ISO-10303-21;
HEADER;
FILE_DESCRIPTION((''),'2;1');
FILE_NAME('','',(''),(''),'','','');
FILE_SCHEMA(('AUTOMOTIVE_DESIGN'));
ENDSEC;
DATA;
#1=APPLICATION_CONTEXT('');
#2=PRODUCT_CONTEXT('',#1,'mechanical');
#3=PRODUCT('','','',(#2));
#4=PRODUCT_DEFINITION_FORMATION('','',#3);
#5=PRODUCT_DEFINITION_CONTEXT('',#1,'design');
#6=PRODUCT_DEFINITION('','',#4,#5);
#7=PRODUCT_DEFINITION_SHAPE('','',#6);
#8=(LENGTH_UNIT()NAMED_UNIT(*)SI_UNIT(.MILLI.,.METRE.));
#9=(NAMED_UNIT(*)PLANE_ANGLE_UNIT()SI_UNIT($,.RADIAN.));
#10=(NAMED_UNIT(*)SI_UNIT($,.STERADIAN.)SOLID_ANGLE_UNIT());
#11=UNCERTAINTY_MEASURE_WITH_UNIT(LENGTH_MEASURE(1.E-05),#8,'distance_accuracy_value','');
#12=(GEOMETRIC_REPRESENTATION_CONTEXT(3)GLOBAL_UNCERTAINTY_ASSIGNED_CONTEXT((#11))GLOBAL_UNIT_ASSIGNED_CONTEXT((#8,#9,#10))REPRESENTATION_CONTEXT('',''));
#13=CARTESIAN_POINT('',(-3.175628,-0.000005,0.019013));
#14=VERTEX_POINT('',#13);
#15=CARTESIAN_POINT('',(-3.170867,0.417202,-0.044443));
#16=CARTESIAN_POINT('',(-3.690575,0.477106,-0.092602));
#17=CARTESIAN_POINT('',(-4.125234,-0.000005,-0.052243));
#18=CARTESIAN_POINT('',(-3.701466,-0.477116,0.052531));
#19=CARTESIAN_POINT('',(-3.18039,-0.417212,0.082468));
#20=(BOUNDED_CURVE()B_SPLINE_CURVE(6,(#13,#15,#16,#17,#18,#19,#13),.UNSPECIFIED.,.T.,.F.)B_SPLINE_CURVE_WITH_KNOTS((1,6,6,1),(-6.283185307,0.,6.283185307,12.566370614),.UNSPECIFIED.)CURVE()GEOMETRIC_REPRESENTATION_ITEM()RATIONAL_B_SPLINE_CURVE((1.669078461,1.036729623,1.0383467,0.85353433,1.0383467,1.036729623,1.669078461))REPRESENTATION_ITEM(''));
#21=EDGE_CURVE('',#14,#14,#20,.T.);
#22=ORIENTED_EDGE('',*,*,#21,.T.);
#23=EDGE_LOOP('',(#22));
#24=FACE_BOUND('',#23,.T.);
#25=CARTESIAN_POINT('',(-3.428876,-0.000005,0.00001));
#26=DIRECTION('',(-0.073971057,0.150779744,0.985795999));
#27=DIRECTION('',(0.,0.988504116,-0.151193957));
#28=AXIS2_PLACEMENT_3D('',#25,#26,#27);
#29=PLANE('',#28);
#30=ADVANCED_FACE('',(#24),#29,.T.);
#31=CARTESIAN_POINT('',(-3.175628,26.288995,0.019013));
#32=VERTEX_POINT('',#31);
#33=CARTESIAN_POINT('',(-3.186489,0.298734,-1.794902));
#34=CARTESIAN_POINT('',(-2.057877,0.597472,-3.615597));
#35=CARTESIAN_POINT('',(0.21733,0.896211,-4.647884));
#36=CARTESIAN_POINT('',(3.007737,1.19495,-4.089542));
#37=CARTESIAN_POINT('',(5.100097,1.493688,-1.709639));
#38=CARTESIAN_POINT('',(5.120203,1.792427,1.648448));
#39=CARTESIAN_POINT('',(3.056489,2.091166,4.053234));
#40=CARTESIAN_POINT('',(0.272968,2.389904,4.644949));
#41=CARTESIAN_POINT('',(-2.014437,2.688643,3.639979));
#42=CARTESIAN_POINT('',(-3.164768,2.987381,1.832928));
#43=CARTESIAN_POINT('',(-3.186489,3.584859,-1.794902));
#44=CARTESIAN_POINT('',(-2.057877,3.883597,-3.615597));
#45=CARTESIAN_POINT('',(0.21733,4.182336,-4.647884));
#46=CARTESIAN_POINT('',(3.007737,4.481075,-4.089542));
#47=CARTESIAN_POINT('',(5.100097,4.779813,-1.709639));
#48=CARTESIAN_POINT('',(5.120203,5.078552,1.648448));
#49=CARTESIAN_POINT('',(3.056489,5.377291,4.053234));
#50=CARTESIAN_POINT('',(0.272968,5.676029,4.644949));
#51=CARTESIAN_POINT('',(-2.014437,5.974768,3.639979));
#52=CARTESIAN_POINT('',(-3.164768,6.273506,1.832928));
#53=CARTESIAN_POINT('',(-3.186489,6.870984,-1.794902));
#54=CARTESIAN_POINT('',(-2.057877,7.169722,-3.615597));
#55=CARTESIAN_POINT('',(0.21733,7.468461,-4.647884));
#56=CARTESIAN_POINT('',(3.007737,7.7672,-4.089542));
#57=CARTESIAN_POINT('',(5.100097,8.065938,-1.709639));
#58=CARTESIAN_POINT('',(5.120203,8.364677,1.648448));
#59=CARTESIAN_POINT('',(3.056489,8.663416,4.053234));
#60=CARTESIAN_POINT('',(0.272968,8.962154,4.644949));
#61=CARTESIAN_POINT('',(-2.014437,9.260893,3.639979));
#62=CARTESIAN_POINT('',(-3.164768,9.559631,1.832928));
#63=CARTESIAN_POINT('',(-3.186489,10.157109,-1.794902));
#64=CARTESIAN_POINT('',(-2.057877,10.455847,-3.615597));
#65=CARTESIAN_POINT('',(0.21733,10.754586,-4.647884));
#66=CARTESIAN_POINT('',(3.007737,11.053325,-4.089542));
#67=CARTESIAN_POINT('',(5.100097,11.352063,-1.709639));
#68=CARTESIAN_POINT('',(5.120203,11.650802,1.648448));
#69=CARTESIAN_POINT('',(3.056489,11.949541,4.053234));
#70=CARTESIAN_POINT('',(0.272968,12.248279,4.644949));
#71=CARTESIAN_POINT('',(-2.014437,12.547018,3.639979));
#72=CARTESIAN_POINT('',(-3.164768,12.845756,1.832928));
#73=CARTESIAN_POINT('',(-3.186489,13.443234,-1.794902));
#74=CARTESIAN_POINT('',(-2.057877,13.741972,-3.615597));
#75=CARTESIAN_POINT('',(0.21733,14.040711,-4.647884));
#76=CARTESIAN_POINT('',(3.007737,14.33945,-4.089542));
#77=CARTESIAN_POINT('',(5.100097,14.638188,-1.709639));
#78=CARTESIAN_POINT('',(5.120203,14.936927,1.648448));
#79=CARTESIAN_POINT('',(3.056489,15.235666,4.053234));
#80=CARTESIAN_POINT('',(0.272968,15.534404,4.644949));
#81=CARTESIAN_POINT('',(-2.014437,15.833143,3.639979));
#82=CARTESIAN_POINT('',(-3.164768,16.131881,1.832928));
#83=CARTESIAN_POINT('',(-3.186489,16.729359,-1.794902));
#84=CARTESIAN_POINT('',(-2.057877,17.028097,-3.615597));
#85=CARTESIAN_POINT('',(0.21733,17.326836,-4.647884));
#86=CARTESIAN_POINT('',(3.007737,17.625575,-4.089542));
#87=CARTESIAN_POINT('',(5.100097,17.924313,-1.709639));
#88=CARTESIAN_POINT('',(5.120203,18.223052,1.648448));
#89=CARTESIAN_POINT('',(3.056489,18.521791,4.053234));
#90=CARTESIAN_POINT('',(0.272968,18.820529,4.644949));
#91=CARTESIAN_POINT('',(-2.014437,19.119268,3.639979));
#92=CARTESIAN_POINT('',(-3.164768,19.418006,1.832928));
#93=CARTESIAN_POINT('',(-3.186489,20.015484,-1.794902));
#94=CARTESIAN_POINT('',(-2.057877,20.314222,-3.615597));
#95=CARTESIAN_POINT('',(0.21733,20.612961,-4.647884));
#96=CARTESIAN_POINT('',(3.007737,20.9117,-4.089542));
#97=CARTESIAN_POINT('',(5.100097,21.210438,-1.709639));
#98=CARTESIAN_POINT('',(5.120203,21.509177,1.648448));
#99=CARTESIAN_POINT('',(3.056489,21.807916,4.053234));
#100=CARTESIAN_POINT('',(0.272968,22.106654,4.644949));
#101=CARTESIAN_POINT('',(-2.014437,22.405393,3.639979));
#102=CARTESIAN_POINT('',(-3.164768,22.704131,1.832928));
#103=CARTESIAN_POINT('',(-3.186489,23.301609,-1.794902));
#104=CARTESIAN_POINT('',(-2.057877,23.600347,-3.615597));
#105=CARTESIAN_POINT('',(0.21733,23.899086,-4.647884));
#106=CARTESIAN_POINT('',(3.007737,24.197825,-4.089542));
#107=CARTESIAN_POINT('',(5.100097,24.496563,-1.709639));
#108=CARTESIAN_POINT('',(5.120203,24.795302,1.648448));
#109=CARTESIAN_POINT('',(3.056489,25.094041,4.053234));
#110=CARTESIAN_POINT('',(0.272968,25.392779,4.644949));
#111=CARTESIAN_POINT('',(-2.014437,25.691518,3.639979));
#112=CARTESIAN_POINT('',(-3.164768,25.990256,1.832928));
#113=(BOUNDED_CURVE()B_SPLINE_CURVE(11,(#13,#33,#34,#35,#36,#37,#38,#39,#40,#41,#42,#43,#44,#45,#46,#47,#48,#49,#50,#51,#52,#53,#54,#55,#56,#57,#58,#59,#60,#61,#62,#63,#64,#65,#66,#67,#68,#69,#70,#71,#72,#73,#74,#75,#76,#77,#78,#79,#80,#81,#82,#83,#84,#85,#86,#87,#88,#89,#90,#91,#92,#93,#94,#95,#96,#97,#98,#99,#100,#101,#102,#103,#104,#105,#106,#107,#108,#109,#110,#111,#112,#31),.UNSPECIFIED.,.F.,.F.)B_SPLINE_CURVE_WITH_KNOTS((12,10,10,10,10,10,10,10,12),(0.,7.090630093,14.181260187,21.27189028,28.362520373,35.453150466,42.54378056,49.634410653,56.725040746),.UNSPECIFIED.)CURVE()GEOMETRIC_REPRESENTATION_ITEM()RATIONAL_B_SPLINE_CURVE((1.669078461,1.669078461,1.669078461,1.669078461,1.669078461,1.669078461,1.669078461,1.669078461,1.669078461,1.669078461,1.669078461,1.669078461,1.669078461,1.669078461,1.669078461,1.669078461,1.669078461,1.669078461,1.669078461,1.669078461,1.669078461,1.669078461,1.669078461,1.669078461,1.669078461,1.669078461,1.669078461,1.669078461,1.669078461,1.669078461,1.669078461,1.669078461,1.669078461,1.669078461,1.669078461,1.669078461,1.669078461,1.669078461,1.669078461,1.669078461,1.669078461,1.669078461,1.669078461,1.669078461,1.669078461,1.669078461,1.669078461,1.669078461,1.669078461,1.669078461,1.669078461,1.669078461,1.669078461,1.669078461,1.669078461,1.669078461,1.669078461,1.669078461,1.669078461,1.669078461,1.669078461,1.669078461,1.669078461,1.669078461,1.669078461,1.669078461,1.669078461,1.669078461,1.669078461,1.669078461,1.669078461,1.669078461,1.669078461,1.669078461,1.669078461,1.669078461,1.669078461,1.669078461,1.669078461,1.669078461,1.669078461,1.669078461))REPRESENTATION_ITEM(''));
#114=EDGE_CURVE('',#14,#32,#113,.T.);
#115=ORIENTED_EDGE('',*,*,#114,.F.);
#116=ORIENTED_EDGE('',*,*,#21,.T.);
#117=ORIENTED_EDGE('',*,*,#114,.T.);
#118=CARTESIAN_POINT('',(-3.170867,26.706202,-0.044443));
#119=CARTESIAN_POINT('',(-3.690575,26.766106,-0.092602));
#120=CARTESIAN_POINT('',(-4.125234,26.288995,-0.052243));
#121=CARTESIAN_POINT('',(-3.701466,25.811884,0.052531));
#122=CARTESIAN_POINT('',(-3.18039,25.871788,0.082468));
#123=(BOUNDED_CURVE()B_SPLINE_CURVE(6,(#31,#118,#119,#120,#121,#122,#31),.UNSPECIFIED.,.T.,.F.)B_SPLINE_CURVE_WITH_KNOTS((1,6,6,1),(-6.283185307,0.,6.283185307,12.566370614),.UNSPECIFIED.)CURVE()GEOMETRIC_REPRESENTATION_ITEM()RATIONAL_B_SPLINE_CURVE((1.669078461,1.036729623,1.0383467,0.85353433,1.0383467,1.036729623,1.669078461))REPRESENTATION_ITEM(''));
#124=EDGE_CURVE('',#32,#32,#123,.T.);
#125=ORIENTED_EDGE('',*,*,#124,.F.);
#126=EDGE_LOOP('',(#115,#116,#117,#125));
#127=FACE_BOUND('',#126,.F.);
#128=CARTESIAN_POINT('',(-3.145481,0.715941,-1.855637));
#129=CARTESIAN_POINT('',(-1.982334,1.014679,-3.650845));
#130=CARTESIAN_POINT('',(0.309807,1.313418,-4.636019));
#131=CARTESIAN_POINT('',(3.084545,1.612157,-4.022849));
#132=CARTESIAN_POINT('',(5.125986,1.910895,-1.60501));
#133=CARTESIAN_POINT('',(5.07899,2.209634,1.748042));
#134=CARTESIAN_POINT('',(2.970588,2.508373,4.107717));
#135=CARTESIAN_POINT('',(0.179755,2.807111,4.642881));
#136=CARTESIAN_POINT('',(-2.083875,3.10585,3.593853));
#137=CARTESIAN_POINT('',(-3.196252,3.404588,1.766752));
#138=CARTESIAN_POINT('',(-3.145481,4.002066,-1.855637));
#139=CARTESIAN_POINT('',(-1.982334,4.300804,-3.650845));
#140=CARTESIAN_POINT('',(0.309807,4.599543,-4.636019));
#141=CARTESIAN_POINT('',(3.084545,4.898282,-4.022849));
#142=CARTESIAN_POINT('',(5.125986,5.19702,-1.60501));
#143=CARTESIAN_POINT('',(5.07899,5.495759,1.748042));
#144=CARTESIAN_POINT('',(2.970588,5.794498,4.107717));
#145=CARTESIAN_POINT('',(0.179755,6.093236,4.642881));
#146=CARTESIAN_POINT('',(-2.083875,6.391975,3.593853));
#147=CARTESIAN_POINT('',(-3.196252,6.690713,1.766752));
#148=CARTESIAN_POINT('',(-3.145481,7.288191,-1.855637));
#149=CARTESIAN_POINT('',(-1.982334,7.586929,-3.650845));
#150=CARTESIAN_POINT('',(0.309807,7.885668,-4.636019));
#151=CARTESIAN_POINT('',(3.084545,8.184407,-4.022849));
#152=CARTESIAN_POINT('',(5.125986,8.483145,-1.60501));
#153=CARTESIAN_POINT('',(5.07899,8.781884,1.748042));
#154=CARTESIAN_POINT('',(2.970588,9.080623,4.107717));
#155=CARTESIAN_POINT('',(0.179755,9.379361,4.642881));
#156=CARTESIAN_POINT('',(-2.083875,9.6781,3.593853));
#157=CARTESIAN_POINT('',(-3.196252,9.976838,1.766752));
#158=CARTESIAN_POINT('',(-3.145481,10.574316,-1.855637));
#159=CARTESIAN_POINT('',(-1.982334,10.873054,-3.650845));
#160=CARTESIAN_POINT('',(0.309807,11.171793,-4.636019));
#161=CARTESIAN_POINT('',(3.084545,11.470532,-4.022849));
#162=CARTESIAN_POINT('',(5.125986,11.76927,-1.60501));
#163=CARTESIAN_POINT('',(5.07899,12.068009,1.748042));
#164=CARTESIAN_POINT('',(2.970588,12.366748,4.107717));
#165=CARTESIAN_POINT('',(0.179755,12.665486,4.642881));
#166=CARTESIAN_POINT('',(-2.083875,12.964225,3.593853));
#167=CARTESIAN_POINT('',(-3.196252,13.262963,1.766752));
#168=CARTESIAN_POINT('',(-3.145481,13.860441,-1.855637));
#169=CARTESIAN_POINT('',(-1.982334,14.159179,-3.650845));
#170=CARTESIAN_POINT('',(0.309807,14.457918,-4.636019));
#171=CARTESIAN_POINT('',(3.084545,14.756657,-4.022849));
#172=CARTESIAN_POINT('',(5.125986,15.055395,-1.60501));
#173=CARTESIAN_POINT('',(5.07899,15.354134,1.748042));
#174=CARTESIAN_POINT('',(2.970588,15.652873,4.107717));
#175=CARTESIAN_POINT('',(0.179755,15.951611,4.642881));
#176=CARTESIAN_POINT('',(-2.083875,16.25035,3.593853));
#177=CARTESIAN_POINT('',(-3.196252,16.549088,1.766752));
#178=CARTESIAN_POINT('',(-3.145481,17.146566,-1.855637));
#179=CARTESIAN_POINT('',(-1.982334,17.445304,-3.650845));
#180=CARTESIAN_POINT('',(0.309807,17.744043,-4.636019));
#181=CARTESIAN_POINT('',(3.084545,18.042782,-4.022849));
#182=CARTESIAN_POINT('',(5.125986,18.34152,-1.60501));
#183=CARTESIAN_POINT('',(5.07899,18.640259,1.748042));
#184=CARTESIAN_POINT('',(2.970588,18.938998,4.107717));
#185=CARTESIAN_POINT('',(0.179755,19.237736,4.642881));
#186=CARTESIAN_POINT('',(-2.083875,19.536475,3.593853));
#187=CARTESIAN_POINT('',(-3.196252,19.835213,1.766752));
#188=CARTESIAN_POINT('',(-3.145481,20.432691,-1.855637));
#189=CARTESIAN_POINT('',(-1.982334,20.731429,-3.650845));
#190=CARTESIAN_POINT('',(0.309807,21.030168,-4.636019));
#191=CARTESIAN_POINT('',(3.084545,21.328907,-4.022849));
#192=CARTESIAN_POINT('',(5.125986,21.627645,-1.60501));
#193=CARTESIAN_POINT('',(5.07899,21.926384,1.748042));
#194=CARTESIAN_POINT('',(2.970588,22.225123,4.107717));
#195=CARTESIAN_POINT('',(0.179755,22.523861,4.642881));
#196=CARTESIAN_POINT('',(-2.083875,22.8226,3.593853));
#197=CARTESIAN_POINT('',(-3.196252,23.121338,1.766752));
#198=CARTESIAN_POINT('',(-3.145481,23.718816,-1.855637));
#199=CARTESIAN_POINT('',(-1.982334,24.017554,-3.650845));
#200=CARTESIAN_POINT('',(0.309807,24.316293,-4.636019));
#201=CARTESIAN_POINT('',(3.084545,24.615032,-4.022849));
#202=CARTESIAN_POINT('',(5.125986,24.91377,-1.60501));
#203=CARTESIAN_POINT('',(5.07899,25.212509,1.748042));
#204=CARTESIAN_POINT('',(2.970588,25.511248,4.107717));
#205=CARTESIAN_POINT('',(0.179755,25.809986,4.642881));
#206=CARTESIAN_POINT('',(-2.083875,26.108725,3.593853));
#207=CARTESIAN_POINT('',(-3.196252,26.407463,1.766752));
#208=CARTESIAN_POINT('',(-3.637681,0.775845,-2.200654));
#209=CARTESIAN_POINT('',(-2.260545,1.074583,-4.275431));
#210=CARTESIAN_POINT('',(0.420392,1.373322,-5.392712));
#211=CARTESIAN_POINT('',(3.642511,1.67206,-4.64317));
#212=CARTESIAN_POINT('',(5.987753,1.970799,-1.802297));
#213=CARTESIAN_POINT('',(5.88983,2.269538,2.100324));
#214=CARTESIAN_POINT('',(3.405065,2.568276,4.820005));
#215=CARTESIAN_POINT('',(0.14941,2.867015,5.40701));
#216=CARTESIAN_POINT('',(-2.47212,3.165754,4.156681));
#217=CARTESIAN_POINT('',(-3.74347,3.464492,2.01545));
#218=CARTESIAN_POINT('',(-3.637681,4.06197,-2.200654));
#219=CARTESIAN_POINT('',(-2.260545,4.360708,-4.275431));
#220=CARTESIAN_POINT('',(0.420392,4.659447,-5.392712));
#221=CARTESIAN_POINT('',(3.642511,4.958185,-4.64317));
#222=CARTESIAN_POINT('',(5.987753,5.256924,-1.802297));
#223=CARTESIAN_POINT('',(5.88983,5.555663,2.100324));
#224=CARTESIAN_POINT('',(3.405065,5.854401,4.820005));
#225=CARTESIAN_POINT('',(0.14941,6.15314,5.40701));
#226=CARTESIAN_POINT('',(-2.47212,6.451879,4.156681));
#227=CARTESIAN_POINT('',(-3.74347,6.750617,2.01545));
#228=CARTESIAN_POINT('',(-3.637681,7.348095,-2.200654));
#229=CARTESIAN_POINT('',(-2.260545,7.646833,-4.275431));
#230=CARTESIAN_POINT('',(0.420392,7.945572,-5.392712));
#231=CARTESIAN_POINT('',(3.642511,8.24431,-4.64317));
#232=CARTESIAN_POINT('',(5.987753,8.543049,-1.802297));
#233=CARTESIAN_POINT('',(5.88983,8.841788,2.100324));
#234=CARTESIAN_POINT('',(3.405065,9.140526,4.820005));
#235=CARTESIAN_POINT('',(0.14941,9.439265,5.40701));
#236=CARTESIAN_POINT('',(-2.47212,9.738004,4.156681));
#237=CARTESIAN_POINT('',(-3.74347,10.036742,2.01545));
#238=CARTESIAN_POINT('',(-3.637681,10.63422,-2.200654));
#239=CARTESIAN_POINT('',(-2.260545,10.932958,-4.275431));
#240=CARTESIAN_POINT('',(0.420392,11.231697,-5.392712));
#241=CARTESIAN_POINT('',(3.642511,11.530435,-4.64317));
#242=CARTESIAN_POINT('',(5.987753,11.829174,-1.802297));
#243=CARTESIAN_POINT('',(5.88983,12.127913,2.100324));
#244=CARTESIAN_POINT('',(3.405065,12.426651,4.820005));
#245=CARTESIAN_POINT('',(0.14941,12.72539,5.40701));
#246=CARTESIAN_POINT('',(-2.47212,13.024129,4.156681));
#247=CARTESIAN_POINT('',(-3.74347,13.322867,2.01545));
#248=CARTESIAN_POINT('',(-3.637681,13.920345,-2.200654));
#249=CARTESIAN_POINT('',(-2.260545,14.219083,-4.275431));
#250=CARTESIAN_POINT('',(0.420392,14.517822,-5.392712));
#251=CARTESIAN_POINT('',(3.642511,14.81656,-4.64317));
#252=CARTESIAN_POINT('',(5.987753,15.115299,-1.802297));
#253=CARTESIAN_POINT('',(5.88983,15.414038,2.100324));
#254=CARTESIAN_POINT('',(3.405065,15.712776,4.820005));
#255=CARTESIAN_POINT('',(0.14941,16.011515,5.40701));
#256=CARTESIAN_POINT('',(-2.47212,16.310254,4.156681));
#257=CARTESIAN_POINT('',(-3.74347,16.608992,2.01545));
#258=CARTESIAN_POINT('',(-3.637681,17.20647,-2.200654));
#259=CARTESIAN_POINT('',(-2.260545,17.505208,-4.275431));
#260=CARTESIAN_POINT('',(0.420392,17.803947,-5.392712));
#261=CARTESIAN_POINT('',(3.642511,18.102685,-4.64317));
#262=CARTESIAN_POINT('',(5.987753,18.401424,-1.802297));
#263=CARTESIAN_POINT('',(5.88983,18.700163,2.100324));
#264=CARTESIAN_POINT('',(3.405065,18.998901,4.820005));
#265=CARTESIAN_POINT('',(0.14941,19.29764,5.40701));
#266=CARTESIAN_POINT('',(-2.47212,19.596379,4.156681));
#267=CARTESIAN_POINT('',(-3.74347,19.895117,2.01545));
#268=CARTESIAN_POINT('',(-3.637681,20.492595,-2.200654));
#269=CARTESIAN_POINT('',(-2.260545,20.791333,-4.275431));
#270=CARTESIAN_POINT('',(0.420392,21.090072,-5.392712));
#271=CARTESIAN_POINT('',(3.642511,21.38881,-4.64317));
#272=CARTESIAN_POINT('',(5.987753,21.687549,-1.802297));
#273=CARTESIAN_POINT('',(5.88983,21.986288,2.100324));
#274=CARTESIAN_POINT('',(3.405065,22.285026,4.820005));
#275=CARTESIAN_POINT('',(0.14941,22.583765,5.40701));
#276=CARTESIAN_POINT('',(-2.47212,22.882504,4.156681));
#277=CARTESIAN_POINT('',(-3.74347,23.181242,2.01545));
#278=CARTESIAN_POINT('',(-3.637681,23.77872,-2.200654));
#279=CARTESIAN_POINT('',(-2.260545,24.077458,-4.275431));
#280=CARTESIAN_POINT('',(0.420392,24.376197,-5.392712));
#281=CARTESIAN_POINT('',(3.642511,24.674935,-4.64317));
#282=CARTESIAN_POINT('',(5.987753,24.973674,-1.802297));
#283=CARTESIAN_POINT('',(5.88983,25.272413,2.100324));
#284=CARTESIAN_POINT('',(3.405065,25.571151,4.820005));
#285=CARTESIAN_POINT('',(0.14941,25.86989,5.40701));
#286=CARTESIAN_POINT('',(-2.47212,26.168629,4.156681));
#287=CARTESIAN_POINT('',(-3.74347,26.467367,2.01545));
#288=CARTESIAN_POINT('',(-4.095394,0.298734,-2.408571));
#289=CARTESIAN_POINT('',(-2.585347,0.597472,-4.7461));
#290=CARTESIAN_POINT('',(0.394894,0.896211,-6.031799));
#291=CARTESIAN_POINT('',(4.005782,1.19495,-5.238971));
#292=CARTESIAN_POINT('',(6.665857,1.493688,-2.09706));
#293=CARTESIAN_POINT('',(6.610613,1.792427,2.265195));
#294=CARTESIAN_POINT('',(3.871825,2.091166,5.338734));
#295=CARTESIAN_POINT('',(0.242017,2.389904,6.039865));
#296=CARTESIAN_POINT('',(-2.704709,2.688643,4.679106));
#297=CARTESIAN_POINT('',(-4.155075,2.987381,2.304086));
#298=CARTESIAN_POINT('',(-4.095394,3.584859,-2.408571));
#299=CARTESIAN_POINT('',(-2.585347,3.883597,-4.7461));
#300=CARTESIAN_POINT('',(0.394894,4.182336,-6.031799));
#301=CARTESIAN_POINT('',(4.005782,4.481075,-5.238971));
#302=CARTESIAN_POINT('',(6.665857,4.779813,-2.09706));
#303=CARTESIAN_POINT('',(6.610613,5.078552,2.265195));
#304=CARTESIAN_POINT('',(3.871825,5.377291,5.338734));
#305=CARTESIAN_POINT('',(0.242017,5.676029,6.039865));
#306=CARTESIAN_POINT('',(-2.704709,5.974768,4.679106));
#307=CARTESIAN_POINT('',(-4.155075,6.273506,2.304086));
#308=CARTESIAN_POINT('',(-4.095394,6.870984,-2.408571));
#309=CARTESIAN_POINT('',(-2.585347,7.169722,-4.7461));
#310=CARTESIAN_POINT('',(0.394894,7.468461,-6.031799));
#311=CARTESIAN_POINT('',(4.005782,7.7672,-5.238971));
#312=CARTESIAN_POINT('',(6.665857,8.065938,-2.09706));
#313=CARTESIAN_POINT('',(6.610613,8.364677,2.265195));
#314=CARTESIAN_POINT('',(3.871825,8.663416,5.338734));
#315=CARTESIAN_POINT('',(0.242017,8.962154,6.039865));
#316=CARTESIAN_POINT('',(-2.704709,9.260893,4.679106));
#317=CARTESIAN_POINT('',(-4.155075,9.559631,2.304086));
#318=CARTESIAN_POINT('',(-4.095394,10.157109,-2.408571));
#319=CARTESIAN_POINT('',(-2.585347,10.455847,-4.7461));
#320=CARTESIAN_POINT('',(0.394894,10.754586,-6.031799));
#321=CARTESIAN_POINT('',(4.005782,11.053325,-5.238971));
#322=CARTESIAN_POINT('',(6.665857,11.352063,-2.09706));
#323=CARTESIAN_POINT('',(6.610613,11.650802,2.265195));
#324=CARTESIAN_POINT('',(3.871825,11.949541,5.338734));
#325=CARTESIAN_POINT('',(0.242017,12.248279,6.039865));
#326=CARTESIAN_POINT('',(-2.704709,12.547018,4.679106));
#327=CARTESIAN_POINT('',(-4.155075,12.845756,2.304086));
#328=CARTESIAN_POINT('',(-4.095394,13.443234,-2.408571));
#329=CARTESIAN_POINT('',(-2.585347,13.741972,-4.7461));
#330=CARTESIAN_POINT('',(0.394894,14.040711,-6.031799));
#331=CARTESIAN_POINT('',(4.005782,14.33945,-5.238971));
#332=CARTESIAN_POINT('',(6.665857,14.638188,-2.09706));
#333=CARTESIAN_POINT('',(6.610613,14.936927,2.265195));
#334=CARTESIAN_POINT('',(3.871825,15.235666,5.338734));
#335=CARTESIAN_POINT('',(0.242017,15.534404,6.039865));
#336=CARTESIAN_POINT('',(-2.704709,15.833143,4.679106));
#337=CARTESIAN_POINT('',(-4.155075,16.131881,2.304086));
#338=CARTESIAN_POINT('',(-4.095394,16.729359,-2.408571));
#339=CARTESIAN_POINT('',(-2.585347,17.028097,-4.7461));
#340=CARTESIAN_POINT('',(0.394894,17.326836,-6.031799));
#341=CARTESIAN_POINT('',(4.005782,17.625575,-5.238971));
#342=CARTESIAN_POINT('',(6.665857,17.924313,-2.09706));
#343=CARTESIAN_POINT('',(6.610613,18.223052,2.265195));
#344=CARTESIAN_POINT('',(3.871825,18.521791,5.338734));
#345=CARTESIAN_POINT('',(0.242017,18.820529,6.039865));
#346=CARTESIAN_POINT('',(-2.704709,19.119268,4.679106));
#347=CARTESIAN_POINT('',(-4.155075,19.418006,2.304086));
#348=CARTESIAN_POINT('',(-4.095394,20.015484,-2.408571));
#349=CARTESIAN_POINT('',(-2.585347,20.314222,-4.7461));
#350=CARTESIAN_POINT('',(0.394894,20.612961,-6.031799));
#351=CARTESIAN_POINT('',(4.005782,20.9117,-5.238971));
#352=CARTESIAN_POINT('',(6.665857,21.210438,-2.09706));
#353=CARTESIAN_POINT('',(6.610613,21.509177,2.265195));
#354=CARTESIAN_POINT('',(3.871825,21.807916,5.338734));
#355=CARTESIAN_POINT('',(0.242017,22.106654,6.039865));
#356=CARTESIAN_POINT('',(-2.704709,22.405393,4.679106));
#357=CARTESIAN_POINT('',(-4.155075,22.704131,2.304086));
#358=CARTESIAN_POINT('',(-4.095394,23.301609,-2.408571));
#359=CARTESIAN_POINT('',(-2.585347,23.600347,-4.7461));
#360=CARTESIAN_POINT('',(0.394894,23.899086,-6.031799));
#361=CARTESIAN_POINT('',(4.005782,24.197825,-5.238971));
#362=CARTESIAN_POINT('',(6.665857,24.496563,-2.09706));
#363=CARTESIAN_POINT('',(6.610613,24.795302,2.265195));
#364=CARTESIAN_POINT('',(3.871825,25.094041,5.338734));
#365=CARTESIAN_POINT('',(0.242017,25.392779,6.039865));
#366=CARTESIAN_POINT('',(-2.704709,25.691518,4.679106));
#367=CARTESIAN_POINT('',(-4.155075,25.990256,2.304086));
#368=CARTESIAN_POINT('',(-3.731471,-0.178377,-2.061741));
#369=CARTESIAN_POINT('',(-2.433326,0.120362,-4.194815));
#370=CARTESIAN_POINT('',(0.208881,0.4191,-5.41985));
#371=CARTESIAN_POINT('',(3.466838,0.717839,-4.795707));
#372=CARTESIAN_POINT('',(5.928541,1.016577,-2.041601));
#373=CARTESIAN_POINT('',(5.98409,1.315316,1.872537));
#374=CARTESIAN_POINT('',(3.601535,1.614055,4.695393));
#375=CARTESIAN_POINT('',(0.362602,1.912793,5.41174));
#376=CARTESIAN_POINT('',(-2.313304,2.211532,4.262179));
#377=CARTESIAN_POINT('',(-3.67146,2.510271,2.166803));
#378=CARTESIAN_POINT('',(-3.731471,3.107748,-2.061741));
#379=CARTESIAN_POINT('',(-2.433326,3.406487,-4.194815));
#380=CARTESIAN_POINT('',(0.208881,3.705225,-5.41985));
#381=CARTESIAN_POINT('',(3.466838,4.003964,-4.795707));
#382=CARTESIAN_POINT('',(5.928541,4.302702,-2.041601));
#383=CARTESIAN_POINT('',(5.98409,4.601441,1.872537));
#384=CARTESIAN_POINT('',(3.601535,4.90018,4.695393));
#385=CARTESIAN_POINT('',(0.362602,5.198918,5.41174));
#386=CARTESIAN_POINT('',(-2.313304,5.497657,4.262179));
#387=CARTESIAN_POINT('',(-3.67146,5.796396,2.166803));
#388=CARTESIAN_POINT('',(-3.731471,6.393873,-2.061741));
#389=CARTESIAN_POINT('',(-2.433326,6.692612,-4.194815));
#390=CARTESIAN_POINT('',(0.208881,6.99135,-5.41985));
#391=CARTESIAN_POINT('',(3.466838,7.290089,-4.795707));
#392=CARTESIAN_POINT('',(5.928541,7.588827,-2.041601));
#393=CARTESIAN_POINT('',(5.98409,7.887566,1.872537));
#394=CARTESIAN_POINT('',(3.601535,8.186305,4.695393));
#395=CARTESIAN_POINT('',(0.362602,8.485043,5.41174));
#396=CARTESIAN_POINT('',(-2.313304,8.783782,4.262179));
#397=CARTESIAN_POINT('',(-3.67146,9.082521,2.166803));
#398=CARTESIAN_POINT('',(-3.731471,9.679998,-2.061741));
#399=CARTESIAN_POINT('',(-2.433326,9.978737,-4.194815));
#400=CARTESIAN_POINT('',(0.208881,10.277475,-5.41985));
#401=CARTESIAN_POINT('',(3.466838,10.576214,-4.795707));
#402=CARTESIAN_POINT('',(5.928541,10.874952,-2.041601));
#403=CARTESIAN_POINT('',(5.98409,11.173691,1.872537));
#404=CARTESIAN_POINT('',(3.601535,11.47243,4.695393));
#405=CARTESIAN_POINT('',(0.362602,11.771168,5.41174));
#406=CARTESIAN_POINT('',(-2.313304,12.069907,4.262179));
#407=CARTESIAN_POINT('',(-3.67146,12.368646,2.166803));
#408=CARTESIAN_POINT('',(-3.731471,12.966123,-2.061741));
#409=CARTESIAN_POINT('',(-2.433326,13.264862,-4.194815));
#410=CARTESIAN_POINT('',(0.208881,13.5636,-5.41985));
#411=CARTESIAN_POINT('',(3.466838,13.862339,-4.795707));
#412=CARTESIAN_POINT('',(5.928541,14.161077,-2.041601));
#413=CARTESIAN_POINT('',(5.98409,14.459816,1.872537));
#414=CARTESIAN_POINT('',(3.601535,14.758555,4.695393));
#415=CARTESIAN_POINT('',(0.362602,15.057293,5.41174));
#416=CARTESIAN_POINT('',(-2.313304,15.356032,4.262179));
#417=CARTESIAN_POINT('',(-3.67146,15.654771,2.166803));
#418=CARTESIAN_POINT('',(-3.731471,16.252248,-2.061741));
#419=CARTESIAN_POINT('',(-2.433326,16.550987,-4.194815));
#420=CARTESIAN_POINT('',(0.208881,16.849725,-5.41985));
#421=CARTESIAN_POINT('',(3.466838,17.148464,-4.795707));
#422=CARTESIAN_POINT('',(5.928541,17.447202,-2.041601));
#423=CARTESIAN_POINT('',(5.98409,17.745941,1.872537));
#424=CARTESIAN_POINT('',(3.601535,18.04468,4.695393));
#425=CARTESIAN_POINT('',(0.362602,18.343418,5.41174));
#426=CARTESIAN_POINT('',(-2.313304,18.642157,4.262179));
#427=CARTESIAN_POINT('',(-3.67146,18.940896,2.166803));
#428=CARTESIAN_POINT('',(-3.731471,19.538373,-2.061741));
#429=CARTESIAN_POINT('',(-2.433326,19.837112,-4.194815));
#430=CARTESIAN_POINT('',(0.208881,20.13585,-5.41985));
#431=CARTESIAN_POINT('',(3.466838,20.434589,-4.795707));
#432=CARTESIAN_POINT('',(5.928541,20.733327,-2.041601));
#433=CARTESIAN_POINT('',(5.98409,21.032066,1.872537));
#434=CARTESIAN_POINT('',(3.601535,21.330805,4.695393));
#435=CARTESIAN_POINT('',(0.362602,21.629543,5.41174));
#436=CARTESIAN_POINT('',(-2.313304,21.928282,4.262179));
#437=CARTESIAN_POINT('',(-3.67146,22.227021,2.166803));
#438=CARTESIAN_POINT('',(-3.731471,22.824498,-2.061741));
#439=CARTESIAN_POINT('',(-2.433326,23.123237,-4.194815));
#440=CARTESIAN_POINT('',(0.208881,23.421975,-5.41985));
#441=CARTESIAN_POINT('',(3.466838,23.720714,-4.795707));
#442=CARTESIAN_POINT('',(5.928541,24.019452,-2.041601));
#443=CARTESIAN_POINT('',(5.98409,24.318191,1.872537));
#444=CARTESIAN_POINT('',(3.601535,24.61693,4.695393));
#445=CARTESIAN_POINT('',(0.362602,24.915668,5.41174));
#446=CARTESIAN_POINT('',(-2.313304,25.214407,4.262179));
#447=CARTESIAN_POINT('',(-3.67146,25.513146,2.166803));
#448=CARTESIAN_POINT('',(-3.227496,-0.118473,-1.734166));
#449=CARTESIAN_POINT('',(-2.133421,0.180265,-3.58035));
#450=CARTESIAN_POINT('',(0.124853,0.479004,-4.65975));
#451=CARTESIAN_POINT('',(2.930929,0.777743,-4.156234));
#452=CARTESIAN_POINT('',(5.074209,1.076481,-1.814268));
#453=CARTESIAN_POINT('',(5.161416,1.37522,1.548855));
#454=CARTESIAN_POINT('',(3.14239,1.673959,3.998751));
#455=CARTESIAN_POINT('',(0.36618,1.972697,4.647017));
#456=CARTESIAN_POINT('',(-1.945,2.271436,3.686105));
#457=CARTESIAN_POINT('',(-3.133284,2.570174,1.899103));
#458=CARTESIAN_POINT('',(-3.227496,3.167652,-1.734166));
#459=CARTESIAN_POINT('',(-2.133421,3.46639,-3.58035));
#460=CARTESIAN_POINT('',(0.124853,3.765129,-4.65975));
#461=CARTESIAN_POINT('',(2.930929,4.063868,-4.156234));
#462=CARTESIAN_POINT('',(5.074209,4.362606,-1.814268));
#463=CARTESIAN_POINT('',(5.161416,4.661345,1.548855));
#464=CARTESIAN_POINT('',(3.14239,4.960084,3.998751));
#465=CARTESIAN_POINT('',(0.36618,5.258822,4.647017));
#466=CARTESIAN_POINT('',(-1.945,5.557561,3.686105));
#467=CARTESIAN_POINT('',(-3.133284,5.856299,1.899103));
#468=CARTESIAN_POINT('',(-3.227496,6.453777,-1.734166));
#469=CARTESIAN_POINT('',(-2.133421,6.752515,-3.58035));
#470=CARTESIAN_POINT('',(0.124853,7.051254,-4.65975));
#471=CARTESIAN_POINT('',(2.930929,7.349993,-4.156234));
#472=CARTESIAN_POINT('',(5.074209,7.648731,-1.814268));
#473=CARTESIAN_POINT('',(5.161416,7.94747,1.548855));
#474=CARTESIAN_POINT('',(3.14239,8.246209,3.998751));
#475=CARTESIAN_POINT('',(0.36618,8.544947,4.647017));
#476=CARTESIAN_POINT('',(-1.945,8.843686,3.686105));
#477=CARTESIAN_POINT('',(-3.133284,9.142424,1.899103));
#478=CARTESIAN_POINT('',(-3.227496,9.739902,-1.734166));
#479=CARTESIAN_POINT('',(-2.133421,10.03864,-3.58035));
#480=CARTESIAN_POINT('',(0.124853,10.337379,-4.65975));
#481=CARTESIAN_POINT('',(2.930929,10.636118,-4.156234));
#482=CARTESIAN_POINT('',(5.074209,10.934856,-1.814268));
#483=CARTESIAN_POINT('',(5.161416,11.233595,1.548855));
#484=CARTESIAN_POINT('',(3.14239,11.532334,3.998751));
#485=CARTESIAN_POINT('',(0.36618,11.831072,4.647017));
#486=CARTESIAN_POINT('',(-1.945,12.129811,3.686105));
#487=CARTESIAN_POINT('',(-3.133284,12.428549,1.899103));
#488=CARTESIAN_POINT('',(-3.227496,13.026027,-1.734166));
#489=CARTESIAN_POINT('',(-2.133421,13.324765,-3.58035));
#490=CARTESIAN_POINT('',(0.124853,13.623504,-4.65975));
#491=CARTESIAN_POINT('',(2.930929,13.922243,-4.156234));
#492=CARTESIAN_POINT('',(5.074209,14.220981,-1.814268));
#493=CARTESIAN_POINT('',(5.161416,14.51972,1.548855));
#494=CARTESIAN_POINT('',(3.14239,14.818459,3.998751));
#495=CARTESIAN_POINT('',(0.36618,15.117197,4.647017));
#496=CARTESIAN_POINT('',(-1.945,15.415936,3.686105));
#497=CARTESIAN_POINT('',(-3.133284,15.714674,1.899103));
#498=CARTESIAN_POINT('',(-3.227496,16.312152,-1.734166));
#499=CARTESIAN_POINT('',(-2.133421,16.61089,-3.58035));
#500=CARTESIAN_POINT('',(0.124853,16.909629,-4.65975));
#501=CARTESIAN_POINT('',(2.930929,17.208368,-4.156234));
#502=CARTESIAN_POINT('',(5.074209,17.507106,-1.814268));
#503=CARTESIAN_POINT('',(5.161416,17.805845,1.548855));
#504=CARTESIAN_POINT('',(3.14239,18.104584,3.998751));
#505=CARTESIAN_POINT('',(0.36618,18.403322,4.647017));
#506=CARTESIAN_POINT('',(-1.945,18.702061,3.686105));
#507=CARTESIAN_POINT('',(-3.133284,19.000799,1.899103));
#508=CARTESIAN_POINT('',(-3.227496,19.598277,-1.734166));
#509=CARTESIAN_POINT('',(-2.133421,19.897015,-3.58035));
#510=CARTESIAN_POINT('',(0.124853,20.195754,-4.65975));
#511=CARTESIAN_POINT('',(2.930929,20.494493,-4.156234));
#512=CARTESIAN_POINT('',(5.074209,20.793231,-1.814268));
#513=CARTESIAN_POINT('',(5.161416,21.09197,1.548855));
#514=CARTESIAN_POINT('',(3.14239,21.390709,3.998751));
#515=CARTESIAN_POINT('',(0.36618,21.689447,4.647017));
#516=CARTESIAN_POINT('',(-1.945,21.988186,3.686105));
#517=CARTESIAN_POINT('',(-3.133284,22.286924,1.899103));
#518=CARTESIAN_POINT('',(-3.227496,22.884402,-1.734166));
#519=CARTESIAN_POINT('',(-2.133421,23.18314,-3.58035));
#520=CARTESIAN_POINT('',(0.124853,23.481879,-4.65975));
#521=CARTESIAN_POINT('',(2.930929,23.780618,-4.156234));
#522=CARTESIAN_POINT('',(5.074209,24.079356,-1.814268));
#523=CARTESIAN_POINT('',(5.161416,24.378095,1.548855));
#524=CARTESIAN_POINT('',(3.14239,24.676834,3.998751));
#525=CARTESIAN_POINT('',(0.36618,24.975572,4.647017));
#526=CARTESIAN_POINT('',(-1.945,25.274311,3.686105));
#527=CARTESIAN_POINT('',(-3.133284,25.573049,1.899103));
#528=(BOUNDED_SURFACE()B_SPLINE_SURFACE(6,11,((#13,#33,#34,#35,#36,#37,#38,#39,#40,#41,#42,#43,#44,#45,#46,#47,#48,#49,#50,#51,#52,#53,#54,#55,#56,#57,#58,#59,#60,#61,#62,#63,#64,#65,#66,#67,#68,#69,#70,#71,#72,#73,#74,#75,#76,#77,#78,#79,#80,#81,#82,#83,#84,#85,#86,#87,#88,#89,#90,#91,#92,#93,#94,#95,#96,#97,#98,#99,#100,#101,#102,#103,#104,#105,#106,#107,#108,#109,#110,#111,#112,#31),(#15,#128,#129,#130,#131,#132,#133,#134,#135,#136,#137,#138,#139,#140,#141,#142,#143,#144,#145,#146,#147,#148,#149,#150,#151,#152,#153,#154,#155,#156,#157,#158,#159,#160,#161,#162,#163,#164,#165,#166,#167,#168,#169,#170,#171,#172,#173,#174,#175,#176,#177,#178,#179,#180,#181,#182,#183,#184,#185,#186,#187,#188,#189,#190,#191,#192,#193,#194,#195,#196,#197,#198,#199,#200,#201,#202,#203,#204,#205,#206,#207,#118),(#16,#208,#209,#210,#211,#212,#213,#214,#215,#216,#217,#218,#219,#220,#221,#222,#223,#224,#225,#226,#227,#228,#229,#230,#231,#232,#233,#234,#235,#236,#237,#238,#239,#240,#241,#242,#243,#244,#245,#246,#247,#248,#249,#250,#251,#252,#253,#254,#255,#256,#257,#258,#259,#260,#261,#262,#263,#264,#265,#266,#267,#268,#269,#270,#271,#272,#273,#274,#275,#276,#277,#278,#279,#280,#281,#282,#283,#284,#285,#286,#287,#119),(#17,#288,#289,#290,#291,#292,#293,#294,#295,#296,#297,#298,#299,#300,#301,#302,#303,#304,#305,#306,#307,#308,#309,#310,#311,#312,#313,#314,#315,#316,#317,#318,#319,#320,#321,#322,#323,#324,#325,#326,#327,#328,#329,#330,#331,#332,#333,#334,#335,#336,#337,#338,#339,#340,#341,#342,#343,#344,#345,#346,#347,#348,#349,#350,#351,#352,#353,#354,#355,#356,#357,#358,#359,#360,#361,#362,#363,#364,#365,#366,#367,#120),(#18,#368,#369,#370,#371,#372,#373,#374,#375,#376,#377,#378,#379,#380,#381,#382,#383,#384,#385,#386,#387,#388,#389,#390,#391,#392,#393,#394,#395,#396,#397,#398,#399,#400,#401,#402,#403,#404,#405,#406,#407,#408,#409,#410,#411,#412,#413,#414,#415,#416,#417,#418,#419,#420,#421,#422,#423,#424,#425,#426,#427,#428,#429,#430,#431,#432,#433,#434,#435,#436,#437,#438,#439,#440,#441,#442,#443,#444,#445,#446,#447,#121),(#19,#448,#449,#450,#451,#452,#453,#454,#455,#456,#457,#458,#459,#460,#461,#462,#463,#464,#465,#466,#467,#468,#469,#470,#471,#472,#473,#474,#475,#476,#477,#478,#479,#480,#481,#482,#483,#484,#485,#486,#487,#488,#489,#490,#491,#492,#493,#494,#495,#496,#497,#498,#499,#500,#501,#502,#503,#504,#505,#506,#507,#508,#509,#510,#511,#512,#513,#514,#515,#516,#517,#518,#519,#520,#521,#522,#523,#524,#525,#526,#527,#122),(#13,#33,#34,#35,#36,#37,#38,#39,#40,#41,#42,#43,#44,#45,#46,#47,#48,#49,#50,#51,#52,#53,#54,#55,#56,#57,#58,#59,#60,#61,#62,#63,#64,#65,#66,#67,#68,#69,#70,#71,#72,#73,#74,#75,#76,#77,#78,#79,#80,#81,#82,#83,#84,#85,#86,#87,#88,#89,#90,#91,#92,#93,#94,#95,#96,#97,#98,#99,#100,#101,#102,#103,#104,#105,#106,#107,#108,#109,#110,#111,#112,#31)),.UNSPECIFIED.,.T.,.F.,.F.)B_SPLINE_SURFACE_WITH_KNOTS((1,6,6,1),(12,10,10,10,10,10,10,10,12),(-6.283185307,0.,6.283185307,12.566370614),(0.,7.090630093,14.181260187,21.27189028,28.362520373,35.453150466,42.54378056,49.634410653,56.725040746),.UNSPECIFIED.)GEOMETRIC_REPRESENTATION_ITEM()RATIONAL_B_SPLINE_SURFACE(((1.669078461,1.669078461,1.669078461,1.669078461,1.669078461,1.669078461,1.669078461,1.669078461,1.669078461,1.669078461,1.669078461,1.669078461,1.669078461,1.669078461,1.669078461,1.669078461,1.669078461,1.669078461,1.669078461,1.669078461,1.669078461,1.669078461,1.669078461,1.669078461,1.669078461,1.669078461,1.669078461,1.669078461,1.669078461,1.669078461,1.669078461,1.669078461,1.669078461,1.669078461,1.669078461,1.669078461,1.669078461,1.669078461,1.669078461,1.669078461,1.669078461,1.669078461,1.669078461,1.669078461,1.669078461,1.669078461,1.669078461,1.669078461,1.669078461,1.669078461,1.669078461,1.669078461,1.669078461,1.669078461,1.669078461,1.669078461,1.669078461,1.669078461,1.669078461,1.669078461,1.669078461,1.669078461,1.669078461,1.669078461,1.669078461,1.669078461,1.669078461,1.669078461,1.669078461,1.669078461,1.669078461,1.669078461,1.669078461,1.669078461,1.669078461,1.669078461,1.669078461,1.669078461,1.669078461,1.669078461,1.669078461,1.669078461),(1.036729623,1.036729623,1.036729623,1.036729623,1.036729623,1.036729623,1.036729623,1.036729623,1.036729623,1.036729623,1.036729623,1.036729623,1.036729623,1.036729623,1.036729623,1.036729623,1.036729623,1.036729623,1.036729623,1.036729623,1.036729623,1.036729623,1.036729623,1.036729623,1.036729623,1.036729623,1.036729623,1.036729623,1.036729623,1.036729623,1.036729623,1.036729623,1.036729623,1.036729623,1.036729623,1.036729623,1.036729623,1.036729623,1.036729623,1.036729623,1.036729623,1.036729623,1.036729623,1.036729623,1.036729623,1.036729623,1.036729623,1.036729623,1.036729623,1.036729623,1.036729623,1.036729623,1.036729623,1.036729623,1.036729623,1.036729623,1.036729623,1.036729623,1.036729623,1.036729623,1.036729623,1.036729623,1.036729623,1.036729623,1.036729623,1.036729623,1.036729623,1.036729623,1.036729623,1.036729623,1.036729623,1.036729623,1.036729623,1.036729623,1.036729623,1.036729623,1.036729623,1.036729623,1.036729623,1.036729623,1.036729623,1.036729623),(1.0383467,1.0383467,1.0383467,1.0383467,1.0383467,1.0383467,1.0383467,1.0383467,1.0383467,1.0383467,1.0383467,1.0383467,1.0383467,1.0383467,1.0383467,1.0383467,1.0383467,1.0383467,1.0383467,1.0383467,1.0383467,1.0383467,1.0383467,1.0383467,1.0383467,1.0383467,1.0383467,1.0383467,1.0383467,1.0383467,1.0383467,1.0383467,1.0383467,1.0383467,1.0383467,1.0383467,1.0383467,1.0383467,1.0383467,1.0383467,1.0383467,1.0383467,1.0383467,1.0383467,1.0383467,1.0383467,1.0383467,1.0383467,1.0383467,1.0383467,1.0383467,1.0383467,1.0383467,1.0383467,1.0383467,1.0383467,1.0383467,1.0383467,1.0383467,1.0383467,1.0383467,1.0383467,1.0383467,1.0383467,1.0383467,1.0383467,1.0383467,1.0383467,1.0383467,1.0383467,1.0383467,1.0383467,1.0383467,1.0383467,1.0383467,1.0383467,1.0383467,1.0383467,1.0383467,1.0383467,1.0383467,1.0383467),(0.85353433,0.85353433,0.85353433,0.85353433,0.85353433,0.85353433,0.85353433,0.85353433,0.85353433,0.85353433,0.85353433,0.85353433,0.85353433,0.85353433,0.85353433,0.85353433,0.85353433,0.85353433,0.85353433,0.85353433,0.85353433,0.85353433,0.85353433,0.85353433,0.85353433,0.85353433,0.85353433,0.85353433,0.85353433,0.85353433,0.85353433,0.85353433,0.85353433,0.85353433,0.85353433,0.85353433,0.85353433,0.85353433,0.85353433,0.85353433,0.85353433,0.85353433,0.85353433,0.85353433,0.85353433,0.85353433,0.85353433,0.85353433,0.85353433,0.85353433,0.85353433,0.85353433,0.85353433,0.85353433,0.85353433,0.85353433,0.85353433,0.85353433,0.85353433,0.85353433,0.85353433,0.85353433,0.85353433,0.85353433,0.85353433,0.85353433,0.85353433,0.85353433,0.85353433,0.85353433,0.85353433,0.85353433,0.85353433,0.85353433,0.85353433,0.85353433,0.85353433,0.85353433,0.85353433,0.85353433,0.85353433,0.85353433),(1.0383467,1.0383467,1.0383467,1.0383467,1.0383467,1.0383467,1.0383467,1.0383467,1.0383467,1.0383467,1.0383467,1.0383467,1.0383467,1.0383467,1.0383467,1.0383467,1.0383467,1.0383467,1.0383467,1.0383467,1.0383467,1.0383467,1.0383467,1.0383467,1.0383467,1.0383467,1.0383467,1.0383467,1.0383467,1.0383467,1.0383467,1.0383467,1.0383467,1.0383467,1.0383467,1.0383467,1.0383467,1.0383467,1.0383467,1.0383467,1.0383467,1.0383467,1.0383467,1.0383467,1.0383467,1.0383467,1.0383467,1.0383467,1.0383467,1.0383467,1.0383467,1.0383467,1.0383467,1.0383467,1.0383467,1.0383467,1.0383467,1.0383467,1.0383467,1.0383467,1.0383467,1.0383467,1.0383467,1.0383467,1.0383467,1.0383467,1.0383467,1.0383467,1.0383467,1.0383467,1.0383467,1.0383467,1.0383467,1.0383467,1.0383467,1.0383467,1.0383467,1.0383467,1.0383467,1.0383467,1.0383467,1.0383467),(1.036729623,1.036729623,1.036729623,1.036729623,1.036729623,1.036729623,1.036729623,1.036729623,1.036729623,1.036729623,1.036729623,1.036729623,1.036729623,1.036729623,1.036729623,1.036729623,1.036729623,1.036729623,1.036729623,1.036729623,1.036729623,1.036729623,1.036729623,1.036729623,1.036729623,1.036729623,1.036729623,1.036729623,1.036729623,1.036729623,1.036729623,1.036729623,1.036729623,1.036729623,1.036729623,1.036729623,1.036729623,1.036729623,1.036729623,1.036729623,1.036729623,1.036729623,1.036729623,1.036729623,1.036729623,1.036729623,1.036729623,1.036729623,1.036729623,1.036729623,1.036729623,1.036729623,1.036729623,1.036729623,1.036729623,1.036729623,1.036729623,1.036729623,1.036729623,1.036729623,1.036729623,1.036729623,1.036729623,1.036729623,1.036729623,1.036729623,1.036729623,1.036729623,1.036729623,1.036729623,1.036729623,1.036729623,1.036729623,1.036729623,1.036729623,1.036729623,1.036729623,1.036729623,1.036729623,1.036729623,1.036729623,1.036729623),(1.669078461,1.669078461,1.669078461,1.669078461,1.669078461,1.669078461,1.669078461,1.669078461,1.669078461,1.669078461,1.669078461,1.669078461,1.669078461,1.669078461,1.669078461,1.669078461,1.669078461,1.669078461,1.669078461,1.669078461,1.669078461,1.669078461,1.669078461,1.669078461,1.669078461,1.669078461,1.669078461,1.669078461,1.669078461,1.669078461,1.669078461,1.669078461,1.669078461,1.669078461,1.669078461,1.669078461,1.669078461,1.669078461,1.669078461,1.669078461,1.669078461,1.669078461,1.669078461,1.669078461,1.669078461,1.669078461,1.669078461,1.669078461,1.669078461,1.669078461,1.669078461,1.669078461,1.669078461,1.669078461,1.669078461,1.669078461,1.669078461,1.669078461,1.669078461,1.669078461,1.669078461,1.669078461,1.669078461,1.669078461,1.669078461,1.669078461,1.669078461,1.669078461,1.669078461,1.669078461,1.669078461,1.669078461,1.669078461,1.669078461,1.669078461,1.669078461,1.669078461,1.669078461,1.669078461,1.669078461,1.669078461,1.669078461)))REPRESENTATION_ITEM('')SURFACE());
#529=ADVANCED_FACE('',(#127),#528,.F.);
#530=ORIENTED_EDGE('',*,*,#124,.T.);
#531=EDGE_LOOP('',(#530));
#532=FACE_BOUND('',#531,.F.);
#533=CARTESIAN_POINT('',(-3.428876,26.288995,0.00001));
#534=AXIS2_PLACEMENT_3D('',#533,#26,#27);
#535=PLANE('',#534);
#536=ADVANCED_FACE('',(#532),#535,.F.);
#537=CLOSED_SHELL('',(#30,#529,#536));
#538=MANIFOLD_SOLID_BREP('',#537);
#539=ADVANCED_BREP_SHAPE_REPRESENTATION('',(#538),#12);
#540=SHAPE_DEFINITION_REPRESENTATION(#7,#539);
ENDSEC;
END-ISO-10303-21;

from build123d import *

# Parameters (mm, degrees)
SWEEP1_PITCH       = 3.286125
SWEEP1_HEIGHT      = 26.289
SWEEP1_RADIUS      = 3.429
SWEEP1_START_ANGLE = -90
SKETCH2_R          = 0.254


with BuildPart() as part:
    # Sweep1: sweep along a helix
    with BuildLine() as sweep1_path:
        add(Helix(SWEEP1_PITCH, SWEEP1_HEIGHT, SWEEP1_RADIUS, center=(0, 0, 0), direction=(0, 1, 0), lefthand=True, mode=Mode.PRIVATE).rotate(Axis((0, 0, 0), (0, 1, 0)), SWEEP1_START_ANGLE))
    # Sketch2 → Sweep1 (sweep)
    with BuildSketch(Plane(origin=(-3.429, 26.289, 0), x_dir=(-1, 0, 0), z_dir=(9.996178526552558e-14, 0.15077974436043495, -0.9885673819677655))):
        with Locations((-6.848303018, -1.701693347)):
            Circle(SKETCH2_R)
    sweep(path=sweep1_path.line, is_frenet=True)


solid = part.part
